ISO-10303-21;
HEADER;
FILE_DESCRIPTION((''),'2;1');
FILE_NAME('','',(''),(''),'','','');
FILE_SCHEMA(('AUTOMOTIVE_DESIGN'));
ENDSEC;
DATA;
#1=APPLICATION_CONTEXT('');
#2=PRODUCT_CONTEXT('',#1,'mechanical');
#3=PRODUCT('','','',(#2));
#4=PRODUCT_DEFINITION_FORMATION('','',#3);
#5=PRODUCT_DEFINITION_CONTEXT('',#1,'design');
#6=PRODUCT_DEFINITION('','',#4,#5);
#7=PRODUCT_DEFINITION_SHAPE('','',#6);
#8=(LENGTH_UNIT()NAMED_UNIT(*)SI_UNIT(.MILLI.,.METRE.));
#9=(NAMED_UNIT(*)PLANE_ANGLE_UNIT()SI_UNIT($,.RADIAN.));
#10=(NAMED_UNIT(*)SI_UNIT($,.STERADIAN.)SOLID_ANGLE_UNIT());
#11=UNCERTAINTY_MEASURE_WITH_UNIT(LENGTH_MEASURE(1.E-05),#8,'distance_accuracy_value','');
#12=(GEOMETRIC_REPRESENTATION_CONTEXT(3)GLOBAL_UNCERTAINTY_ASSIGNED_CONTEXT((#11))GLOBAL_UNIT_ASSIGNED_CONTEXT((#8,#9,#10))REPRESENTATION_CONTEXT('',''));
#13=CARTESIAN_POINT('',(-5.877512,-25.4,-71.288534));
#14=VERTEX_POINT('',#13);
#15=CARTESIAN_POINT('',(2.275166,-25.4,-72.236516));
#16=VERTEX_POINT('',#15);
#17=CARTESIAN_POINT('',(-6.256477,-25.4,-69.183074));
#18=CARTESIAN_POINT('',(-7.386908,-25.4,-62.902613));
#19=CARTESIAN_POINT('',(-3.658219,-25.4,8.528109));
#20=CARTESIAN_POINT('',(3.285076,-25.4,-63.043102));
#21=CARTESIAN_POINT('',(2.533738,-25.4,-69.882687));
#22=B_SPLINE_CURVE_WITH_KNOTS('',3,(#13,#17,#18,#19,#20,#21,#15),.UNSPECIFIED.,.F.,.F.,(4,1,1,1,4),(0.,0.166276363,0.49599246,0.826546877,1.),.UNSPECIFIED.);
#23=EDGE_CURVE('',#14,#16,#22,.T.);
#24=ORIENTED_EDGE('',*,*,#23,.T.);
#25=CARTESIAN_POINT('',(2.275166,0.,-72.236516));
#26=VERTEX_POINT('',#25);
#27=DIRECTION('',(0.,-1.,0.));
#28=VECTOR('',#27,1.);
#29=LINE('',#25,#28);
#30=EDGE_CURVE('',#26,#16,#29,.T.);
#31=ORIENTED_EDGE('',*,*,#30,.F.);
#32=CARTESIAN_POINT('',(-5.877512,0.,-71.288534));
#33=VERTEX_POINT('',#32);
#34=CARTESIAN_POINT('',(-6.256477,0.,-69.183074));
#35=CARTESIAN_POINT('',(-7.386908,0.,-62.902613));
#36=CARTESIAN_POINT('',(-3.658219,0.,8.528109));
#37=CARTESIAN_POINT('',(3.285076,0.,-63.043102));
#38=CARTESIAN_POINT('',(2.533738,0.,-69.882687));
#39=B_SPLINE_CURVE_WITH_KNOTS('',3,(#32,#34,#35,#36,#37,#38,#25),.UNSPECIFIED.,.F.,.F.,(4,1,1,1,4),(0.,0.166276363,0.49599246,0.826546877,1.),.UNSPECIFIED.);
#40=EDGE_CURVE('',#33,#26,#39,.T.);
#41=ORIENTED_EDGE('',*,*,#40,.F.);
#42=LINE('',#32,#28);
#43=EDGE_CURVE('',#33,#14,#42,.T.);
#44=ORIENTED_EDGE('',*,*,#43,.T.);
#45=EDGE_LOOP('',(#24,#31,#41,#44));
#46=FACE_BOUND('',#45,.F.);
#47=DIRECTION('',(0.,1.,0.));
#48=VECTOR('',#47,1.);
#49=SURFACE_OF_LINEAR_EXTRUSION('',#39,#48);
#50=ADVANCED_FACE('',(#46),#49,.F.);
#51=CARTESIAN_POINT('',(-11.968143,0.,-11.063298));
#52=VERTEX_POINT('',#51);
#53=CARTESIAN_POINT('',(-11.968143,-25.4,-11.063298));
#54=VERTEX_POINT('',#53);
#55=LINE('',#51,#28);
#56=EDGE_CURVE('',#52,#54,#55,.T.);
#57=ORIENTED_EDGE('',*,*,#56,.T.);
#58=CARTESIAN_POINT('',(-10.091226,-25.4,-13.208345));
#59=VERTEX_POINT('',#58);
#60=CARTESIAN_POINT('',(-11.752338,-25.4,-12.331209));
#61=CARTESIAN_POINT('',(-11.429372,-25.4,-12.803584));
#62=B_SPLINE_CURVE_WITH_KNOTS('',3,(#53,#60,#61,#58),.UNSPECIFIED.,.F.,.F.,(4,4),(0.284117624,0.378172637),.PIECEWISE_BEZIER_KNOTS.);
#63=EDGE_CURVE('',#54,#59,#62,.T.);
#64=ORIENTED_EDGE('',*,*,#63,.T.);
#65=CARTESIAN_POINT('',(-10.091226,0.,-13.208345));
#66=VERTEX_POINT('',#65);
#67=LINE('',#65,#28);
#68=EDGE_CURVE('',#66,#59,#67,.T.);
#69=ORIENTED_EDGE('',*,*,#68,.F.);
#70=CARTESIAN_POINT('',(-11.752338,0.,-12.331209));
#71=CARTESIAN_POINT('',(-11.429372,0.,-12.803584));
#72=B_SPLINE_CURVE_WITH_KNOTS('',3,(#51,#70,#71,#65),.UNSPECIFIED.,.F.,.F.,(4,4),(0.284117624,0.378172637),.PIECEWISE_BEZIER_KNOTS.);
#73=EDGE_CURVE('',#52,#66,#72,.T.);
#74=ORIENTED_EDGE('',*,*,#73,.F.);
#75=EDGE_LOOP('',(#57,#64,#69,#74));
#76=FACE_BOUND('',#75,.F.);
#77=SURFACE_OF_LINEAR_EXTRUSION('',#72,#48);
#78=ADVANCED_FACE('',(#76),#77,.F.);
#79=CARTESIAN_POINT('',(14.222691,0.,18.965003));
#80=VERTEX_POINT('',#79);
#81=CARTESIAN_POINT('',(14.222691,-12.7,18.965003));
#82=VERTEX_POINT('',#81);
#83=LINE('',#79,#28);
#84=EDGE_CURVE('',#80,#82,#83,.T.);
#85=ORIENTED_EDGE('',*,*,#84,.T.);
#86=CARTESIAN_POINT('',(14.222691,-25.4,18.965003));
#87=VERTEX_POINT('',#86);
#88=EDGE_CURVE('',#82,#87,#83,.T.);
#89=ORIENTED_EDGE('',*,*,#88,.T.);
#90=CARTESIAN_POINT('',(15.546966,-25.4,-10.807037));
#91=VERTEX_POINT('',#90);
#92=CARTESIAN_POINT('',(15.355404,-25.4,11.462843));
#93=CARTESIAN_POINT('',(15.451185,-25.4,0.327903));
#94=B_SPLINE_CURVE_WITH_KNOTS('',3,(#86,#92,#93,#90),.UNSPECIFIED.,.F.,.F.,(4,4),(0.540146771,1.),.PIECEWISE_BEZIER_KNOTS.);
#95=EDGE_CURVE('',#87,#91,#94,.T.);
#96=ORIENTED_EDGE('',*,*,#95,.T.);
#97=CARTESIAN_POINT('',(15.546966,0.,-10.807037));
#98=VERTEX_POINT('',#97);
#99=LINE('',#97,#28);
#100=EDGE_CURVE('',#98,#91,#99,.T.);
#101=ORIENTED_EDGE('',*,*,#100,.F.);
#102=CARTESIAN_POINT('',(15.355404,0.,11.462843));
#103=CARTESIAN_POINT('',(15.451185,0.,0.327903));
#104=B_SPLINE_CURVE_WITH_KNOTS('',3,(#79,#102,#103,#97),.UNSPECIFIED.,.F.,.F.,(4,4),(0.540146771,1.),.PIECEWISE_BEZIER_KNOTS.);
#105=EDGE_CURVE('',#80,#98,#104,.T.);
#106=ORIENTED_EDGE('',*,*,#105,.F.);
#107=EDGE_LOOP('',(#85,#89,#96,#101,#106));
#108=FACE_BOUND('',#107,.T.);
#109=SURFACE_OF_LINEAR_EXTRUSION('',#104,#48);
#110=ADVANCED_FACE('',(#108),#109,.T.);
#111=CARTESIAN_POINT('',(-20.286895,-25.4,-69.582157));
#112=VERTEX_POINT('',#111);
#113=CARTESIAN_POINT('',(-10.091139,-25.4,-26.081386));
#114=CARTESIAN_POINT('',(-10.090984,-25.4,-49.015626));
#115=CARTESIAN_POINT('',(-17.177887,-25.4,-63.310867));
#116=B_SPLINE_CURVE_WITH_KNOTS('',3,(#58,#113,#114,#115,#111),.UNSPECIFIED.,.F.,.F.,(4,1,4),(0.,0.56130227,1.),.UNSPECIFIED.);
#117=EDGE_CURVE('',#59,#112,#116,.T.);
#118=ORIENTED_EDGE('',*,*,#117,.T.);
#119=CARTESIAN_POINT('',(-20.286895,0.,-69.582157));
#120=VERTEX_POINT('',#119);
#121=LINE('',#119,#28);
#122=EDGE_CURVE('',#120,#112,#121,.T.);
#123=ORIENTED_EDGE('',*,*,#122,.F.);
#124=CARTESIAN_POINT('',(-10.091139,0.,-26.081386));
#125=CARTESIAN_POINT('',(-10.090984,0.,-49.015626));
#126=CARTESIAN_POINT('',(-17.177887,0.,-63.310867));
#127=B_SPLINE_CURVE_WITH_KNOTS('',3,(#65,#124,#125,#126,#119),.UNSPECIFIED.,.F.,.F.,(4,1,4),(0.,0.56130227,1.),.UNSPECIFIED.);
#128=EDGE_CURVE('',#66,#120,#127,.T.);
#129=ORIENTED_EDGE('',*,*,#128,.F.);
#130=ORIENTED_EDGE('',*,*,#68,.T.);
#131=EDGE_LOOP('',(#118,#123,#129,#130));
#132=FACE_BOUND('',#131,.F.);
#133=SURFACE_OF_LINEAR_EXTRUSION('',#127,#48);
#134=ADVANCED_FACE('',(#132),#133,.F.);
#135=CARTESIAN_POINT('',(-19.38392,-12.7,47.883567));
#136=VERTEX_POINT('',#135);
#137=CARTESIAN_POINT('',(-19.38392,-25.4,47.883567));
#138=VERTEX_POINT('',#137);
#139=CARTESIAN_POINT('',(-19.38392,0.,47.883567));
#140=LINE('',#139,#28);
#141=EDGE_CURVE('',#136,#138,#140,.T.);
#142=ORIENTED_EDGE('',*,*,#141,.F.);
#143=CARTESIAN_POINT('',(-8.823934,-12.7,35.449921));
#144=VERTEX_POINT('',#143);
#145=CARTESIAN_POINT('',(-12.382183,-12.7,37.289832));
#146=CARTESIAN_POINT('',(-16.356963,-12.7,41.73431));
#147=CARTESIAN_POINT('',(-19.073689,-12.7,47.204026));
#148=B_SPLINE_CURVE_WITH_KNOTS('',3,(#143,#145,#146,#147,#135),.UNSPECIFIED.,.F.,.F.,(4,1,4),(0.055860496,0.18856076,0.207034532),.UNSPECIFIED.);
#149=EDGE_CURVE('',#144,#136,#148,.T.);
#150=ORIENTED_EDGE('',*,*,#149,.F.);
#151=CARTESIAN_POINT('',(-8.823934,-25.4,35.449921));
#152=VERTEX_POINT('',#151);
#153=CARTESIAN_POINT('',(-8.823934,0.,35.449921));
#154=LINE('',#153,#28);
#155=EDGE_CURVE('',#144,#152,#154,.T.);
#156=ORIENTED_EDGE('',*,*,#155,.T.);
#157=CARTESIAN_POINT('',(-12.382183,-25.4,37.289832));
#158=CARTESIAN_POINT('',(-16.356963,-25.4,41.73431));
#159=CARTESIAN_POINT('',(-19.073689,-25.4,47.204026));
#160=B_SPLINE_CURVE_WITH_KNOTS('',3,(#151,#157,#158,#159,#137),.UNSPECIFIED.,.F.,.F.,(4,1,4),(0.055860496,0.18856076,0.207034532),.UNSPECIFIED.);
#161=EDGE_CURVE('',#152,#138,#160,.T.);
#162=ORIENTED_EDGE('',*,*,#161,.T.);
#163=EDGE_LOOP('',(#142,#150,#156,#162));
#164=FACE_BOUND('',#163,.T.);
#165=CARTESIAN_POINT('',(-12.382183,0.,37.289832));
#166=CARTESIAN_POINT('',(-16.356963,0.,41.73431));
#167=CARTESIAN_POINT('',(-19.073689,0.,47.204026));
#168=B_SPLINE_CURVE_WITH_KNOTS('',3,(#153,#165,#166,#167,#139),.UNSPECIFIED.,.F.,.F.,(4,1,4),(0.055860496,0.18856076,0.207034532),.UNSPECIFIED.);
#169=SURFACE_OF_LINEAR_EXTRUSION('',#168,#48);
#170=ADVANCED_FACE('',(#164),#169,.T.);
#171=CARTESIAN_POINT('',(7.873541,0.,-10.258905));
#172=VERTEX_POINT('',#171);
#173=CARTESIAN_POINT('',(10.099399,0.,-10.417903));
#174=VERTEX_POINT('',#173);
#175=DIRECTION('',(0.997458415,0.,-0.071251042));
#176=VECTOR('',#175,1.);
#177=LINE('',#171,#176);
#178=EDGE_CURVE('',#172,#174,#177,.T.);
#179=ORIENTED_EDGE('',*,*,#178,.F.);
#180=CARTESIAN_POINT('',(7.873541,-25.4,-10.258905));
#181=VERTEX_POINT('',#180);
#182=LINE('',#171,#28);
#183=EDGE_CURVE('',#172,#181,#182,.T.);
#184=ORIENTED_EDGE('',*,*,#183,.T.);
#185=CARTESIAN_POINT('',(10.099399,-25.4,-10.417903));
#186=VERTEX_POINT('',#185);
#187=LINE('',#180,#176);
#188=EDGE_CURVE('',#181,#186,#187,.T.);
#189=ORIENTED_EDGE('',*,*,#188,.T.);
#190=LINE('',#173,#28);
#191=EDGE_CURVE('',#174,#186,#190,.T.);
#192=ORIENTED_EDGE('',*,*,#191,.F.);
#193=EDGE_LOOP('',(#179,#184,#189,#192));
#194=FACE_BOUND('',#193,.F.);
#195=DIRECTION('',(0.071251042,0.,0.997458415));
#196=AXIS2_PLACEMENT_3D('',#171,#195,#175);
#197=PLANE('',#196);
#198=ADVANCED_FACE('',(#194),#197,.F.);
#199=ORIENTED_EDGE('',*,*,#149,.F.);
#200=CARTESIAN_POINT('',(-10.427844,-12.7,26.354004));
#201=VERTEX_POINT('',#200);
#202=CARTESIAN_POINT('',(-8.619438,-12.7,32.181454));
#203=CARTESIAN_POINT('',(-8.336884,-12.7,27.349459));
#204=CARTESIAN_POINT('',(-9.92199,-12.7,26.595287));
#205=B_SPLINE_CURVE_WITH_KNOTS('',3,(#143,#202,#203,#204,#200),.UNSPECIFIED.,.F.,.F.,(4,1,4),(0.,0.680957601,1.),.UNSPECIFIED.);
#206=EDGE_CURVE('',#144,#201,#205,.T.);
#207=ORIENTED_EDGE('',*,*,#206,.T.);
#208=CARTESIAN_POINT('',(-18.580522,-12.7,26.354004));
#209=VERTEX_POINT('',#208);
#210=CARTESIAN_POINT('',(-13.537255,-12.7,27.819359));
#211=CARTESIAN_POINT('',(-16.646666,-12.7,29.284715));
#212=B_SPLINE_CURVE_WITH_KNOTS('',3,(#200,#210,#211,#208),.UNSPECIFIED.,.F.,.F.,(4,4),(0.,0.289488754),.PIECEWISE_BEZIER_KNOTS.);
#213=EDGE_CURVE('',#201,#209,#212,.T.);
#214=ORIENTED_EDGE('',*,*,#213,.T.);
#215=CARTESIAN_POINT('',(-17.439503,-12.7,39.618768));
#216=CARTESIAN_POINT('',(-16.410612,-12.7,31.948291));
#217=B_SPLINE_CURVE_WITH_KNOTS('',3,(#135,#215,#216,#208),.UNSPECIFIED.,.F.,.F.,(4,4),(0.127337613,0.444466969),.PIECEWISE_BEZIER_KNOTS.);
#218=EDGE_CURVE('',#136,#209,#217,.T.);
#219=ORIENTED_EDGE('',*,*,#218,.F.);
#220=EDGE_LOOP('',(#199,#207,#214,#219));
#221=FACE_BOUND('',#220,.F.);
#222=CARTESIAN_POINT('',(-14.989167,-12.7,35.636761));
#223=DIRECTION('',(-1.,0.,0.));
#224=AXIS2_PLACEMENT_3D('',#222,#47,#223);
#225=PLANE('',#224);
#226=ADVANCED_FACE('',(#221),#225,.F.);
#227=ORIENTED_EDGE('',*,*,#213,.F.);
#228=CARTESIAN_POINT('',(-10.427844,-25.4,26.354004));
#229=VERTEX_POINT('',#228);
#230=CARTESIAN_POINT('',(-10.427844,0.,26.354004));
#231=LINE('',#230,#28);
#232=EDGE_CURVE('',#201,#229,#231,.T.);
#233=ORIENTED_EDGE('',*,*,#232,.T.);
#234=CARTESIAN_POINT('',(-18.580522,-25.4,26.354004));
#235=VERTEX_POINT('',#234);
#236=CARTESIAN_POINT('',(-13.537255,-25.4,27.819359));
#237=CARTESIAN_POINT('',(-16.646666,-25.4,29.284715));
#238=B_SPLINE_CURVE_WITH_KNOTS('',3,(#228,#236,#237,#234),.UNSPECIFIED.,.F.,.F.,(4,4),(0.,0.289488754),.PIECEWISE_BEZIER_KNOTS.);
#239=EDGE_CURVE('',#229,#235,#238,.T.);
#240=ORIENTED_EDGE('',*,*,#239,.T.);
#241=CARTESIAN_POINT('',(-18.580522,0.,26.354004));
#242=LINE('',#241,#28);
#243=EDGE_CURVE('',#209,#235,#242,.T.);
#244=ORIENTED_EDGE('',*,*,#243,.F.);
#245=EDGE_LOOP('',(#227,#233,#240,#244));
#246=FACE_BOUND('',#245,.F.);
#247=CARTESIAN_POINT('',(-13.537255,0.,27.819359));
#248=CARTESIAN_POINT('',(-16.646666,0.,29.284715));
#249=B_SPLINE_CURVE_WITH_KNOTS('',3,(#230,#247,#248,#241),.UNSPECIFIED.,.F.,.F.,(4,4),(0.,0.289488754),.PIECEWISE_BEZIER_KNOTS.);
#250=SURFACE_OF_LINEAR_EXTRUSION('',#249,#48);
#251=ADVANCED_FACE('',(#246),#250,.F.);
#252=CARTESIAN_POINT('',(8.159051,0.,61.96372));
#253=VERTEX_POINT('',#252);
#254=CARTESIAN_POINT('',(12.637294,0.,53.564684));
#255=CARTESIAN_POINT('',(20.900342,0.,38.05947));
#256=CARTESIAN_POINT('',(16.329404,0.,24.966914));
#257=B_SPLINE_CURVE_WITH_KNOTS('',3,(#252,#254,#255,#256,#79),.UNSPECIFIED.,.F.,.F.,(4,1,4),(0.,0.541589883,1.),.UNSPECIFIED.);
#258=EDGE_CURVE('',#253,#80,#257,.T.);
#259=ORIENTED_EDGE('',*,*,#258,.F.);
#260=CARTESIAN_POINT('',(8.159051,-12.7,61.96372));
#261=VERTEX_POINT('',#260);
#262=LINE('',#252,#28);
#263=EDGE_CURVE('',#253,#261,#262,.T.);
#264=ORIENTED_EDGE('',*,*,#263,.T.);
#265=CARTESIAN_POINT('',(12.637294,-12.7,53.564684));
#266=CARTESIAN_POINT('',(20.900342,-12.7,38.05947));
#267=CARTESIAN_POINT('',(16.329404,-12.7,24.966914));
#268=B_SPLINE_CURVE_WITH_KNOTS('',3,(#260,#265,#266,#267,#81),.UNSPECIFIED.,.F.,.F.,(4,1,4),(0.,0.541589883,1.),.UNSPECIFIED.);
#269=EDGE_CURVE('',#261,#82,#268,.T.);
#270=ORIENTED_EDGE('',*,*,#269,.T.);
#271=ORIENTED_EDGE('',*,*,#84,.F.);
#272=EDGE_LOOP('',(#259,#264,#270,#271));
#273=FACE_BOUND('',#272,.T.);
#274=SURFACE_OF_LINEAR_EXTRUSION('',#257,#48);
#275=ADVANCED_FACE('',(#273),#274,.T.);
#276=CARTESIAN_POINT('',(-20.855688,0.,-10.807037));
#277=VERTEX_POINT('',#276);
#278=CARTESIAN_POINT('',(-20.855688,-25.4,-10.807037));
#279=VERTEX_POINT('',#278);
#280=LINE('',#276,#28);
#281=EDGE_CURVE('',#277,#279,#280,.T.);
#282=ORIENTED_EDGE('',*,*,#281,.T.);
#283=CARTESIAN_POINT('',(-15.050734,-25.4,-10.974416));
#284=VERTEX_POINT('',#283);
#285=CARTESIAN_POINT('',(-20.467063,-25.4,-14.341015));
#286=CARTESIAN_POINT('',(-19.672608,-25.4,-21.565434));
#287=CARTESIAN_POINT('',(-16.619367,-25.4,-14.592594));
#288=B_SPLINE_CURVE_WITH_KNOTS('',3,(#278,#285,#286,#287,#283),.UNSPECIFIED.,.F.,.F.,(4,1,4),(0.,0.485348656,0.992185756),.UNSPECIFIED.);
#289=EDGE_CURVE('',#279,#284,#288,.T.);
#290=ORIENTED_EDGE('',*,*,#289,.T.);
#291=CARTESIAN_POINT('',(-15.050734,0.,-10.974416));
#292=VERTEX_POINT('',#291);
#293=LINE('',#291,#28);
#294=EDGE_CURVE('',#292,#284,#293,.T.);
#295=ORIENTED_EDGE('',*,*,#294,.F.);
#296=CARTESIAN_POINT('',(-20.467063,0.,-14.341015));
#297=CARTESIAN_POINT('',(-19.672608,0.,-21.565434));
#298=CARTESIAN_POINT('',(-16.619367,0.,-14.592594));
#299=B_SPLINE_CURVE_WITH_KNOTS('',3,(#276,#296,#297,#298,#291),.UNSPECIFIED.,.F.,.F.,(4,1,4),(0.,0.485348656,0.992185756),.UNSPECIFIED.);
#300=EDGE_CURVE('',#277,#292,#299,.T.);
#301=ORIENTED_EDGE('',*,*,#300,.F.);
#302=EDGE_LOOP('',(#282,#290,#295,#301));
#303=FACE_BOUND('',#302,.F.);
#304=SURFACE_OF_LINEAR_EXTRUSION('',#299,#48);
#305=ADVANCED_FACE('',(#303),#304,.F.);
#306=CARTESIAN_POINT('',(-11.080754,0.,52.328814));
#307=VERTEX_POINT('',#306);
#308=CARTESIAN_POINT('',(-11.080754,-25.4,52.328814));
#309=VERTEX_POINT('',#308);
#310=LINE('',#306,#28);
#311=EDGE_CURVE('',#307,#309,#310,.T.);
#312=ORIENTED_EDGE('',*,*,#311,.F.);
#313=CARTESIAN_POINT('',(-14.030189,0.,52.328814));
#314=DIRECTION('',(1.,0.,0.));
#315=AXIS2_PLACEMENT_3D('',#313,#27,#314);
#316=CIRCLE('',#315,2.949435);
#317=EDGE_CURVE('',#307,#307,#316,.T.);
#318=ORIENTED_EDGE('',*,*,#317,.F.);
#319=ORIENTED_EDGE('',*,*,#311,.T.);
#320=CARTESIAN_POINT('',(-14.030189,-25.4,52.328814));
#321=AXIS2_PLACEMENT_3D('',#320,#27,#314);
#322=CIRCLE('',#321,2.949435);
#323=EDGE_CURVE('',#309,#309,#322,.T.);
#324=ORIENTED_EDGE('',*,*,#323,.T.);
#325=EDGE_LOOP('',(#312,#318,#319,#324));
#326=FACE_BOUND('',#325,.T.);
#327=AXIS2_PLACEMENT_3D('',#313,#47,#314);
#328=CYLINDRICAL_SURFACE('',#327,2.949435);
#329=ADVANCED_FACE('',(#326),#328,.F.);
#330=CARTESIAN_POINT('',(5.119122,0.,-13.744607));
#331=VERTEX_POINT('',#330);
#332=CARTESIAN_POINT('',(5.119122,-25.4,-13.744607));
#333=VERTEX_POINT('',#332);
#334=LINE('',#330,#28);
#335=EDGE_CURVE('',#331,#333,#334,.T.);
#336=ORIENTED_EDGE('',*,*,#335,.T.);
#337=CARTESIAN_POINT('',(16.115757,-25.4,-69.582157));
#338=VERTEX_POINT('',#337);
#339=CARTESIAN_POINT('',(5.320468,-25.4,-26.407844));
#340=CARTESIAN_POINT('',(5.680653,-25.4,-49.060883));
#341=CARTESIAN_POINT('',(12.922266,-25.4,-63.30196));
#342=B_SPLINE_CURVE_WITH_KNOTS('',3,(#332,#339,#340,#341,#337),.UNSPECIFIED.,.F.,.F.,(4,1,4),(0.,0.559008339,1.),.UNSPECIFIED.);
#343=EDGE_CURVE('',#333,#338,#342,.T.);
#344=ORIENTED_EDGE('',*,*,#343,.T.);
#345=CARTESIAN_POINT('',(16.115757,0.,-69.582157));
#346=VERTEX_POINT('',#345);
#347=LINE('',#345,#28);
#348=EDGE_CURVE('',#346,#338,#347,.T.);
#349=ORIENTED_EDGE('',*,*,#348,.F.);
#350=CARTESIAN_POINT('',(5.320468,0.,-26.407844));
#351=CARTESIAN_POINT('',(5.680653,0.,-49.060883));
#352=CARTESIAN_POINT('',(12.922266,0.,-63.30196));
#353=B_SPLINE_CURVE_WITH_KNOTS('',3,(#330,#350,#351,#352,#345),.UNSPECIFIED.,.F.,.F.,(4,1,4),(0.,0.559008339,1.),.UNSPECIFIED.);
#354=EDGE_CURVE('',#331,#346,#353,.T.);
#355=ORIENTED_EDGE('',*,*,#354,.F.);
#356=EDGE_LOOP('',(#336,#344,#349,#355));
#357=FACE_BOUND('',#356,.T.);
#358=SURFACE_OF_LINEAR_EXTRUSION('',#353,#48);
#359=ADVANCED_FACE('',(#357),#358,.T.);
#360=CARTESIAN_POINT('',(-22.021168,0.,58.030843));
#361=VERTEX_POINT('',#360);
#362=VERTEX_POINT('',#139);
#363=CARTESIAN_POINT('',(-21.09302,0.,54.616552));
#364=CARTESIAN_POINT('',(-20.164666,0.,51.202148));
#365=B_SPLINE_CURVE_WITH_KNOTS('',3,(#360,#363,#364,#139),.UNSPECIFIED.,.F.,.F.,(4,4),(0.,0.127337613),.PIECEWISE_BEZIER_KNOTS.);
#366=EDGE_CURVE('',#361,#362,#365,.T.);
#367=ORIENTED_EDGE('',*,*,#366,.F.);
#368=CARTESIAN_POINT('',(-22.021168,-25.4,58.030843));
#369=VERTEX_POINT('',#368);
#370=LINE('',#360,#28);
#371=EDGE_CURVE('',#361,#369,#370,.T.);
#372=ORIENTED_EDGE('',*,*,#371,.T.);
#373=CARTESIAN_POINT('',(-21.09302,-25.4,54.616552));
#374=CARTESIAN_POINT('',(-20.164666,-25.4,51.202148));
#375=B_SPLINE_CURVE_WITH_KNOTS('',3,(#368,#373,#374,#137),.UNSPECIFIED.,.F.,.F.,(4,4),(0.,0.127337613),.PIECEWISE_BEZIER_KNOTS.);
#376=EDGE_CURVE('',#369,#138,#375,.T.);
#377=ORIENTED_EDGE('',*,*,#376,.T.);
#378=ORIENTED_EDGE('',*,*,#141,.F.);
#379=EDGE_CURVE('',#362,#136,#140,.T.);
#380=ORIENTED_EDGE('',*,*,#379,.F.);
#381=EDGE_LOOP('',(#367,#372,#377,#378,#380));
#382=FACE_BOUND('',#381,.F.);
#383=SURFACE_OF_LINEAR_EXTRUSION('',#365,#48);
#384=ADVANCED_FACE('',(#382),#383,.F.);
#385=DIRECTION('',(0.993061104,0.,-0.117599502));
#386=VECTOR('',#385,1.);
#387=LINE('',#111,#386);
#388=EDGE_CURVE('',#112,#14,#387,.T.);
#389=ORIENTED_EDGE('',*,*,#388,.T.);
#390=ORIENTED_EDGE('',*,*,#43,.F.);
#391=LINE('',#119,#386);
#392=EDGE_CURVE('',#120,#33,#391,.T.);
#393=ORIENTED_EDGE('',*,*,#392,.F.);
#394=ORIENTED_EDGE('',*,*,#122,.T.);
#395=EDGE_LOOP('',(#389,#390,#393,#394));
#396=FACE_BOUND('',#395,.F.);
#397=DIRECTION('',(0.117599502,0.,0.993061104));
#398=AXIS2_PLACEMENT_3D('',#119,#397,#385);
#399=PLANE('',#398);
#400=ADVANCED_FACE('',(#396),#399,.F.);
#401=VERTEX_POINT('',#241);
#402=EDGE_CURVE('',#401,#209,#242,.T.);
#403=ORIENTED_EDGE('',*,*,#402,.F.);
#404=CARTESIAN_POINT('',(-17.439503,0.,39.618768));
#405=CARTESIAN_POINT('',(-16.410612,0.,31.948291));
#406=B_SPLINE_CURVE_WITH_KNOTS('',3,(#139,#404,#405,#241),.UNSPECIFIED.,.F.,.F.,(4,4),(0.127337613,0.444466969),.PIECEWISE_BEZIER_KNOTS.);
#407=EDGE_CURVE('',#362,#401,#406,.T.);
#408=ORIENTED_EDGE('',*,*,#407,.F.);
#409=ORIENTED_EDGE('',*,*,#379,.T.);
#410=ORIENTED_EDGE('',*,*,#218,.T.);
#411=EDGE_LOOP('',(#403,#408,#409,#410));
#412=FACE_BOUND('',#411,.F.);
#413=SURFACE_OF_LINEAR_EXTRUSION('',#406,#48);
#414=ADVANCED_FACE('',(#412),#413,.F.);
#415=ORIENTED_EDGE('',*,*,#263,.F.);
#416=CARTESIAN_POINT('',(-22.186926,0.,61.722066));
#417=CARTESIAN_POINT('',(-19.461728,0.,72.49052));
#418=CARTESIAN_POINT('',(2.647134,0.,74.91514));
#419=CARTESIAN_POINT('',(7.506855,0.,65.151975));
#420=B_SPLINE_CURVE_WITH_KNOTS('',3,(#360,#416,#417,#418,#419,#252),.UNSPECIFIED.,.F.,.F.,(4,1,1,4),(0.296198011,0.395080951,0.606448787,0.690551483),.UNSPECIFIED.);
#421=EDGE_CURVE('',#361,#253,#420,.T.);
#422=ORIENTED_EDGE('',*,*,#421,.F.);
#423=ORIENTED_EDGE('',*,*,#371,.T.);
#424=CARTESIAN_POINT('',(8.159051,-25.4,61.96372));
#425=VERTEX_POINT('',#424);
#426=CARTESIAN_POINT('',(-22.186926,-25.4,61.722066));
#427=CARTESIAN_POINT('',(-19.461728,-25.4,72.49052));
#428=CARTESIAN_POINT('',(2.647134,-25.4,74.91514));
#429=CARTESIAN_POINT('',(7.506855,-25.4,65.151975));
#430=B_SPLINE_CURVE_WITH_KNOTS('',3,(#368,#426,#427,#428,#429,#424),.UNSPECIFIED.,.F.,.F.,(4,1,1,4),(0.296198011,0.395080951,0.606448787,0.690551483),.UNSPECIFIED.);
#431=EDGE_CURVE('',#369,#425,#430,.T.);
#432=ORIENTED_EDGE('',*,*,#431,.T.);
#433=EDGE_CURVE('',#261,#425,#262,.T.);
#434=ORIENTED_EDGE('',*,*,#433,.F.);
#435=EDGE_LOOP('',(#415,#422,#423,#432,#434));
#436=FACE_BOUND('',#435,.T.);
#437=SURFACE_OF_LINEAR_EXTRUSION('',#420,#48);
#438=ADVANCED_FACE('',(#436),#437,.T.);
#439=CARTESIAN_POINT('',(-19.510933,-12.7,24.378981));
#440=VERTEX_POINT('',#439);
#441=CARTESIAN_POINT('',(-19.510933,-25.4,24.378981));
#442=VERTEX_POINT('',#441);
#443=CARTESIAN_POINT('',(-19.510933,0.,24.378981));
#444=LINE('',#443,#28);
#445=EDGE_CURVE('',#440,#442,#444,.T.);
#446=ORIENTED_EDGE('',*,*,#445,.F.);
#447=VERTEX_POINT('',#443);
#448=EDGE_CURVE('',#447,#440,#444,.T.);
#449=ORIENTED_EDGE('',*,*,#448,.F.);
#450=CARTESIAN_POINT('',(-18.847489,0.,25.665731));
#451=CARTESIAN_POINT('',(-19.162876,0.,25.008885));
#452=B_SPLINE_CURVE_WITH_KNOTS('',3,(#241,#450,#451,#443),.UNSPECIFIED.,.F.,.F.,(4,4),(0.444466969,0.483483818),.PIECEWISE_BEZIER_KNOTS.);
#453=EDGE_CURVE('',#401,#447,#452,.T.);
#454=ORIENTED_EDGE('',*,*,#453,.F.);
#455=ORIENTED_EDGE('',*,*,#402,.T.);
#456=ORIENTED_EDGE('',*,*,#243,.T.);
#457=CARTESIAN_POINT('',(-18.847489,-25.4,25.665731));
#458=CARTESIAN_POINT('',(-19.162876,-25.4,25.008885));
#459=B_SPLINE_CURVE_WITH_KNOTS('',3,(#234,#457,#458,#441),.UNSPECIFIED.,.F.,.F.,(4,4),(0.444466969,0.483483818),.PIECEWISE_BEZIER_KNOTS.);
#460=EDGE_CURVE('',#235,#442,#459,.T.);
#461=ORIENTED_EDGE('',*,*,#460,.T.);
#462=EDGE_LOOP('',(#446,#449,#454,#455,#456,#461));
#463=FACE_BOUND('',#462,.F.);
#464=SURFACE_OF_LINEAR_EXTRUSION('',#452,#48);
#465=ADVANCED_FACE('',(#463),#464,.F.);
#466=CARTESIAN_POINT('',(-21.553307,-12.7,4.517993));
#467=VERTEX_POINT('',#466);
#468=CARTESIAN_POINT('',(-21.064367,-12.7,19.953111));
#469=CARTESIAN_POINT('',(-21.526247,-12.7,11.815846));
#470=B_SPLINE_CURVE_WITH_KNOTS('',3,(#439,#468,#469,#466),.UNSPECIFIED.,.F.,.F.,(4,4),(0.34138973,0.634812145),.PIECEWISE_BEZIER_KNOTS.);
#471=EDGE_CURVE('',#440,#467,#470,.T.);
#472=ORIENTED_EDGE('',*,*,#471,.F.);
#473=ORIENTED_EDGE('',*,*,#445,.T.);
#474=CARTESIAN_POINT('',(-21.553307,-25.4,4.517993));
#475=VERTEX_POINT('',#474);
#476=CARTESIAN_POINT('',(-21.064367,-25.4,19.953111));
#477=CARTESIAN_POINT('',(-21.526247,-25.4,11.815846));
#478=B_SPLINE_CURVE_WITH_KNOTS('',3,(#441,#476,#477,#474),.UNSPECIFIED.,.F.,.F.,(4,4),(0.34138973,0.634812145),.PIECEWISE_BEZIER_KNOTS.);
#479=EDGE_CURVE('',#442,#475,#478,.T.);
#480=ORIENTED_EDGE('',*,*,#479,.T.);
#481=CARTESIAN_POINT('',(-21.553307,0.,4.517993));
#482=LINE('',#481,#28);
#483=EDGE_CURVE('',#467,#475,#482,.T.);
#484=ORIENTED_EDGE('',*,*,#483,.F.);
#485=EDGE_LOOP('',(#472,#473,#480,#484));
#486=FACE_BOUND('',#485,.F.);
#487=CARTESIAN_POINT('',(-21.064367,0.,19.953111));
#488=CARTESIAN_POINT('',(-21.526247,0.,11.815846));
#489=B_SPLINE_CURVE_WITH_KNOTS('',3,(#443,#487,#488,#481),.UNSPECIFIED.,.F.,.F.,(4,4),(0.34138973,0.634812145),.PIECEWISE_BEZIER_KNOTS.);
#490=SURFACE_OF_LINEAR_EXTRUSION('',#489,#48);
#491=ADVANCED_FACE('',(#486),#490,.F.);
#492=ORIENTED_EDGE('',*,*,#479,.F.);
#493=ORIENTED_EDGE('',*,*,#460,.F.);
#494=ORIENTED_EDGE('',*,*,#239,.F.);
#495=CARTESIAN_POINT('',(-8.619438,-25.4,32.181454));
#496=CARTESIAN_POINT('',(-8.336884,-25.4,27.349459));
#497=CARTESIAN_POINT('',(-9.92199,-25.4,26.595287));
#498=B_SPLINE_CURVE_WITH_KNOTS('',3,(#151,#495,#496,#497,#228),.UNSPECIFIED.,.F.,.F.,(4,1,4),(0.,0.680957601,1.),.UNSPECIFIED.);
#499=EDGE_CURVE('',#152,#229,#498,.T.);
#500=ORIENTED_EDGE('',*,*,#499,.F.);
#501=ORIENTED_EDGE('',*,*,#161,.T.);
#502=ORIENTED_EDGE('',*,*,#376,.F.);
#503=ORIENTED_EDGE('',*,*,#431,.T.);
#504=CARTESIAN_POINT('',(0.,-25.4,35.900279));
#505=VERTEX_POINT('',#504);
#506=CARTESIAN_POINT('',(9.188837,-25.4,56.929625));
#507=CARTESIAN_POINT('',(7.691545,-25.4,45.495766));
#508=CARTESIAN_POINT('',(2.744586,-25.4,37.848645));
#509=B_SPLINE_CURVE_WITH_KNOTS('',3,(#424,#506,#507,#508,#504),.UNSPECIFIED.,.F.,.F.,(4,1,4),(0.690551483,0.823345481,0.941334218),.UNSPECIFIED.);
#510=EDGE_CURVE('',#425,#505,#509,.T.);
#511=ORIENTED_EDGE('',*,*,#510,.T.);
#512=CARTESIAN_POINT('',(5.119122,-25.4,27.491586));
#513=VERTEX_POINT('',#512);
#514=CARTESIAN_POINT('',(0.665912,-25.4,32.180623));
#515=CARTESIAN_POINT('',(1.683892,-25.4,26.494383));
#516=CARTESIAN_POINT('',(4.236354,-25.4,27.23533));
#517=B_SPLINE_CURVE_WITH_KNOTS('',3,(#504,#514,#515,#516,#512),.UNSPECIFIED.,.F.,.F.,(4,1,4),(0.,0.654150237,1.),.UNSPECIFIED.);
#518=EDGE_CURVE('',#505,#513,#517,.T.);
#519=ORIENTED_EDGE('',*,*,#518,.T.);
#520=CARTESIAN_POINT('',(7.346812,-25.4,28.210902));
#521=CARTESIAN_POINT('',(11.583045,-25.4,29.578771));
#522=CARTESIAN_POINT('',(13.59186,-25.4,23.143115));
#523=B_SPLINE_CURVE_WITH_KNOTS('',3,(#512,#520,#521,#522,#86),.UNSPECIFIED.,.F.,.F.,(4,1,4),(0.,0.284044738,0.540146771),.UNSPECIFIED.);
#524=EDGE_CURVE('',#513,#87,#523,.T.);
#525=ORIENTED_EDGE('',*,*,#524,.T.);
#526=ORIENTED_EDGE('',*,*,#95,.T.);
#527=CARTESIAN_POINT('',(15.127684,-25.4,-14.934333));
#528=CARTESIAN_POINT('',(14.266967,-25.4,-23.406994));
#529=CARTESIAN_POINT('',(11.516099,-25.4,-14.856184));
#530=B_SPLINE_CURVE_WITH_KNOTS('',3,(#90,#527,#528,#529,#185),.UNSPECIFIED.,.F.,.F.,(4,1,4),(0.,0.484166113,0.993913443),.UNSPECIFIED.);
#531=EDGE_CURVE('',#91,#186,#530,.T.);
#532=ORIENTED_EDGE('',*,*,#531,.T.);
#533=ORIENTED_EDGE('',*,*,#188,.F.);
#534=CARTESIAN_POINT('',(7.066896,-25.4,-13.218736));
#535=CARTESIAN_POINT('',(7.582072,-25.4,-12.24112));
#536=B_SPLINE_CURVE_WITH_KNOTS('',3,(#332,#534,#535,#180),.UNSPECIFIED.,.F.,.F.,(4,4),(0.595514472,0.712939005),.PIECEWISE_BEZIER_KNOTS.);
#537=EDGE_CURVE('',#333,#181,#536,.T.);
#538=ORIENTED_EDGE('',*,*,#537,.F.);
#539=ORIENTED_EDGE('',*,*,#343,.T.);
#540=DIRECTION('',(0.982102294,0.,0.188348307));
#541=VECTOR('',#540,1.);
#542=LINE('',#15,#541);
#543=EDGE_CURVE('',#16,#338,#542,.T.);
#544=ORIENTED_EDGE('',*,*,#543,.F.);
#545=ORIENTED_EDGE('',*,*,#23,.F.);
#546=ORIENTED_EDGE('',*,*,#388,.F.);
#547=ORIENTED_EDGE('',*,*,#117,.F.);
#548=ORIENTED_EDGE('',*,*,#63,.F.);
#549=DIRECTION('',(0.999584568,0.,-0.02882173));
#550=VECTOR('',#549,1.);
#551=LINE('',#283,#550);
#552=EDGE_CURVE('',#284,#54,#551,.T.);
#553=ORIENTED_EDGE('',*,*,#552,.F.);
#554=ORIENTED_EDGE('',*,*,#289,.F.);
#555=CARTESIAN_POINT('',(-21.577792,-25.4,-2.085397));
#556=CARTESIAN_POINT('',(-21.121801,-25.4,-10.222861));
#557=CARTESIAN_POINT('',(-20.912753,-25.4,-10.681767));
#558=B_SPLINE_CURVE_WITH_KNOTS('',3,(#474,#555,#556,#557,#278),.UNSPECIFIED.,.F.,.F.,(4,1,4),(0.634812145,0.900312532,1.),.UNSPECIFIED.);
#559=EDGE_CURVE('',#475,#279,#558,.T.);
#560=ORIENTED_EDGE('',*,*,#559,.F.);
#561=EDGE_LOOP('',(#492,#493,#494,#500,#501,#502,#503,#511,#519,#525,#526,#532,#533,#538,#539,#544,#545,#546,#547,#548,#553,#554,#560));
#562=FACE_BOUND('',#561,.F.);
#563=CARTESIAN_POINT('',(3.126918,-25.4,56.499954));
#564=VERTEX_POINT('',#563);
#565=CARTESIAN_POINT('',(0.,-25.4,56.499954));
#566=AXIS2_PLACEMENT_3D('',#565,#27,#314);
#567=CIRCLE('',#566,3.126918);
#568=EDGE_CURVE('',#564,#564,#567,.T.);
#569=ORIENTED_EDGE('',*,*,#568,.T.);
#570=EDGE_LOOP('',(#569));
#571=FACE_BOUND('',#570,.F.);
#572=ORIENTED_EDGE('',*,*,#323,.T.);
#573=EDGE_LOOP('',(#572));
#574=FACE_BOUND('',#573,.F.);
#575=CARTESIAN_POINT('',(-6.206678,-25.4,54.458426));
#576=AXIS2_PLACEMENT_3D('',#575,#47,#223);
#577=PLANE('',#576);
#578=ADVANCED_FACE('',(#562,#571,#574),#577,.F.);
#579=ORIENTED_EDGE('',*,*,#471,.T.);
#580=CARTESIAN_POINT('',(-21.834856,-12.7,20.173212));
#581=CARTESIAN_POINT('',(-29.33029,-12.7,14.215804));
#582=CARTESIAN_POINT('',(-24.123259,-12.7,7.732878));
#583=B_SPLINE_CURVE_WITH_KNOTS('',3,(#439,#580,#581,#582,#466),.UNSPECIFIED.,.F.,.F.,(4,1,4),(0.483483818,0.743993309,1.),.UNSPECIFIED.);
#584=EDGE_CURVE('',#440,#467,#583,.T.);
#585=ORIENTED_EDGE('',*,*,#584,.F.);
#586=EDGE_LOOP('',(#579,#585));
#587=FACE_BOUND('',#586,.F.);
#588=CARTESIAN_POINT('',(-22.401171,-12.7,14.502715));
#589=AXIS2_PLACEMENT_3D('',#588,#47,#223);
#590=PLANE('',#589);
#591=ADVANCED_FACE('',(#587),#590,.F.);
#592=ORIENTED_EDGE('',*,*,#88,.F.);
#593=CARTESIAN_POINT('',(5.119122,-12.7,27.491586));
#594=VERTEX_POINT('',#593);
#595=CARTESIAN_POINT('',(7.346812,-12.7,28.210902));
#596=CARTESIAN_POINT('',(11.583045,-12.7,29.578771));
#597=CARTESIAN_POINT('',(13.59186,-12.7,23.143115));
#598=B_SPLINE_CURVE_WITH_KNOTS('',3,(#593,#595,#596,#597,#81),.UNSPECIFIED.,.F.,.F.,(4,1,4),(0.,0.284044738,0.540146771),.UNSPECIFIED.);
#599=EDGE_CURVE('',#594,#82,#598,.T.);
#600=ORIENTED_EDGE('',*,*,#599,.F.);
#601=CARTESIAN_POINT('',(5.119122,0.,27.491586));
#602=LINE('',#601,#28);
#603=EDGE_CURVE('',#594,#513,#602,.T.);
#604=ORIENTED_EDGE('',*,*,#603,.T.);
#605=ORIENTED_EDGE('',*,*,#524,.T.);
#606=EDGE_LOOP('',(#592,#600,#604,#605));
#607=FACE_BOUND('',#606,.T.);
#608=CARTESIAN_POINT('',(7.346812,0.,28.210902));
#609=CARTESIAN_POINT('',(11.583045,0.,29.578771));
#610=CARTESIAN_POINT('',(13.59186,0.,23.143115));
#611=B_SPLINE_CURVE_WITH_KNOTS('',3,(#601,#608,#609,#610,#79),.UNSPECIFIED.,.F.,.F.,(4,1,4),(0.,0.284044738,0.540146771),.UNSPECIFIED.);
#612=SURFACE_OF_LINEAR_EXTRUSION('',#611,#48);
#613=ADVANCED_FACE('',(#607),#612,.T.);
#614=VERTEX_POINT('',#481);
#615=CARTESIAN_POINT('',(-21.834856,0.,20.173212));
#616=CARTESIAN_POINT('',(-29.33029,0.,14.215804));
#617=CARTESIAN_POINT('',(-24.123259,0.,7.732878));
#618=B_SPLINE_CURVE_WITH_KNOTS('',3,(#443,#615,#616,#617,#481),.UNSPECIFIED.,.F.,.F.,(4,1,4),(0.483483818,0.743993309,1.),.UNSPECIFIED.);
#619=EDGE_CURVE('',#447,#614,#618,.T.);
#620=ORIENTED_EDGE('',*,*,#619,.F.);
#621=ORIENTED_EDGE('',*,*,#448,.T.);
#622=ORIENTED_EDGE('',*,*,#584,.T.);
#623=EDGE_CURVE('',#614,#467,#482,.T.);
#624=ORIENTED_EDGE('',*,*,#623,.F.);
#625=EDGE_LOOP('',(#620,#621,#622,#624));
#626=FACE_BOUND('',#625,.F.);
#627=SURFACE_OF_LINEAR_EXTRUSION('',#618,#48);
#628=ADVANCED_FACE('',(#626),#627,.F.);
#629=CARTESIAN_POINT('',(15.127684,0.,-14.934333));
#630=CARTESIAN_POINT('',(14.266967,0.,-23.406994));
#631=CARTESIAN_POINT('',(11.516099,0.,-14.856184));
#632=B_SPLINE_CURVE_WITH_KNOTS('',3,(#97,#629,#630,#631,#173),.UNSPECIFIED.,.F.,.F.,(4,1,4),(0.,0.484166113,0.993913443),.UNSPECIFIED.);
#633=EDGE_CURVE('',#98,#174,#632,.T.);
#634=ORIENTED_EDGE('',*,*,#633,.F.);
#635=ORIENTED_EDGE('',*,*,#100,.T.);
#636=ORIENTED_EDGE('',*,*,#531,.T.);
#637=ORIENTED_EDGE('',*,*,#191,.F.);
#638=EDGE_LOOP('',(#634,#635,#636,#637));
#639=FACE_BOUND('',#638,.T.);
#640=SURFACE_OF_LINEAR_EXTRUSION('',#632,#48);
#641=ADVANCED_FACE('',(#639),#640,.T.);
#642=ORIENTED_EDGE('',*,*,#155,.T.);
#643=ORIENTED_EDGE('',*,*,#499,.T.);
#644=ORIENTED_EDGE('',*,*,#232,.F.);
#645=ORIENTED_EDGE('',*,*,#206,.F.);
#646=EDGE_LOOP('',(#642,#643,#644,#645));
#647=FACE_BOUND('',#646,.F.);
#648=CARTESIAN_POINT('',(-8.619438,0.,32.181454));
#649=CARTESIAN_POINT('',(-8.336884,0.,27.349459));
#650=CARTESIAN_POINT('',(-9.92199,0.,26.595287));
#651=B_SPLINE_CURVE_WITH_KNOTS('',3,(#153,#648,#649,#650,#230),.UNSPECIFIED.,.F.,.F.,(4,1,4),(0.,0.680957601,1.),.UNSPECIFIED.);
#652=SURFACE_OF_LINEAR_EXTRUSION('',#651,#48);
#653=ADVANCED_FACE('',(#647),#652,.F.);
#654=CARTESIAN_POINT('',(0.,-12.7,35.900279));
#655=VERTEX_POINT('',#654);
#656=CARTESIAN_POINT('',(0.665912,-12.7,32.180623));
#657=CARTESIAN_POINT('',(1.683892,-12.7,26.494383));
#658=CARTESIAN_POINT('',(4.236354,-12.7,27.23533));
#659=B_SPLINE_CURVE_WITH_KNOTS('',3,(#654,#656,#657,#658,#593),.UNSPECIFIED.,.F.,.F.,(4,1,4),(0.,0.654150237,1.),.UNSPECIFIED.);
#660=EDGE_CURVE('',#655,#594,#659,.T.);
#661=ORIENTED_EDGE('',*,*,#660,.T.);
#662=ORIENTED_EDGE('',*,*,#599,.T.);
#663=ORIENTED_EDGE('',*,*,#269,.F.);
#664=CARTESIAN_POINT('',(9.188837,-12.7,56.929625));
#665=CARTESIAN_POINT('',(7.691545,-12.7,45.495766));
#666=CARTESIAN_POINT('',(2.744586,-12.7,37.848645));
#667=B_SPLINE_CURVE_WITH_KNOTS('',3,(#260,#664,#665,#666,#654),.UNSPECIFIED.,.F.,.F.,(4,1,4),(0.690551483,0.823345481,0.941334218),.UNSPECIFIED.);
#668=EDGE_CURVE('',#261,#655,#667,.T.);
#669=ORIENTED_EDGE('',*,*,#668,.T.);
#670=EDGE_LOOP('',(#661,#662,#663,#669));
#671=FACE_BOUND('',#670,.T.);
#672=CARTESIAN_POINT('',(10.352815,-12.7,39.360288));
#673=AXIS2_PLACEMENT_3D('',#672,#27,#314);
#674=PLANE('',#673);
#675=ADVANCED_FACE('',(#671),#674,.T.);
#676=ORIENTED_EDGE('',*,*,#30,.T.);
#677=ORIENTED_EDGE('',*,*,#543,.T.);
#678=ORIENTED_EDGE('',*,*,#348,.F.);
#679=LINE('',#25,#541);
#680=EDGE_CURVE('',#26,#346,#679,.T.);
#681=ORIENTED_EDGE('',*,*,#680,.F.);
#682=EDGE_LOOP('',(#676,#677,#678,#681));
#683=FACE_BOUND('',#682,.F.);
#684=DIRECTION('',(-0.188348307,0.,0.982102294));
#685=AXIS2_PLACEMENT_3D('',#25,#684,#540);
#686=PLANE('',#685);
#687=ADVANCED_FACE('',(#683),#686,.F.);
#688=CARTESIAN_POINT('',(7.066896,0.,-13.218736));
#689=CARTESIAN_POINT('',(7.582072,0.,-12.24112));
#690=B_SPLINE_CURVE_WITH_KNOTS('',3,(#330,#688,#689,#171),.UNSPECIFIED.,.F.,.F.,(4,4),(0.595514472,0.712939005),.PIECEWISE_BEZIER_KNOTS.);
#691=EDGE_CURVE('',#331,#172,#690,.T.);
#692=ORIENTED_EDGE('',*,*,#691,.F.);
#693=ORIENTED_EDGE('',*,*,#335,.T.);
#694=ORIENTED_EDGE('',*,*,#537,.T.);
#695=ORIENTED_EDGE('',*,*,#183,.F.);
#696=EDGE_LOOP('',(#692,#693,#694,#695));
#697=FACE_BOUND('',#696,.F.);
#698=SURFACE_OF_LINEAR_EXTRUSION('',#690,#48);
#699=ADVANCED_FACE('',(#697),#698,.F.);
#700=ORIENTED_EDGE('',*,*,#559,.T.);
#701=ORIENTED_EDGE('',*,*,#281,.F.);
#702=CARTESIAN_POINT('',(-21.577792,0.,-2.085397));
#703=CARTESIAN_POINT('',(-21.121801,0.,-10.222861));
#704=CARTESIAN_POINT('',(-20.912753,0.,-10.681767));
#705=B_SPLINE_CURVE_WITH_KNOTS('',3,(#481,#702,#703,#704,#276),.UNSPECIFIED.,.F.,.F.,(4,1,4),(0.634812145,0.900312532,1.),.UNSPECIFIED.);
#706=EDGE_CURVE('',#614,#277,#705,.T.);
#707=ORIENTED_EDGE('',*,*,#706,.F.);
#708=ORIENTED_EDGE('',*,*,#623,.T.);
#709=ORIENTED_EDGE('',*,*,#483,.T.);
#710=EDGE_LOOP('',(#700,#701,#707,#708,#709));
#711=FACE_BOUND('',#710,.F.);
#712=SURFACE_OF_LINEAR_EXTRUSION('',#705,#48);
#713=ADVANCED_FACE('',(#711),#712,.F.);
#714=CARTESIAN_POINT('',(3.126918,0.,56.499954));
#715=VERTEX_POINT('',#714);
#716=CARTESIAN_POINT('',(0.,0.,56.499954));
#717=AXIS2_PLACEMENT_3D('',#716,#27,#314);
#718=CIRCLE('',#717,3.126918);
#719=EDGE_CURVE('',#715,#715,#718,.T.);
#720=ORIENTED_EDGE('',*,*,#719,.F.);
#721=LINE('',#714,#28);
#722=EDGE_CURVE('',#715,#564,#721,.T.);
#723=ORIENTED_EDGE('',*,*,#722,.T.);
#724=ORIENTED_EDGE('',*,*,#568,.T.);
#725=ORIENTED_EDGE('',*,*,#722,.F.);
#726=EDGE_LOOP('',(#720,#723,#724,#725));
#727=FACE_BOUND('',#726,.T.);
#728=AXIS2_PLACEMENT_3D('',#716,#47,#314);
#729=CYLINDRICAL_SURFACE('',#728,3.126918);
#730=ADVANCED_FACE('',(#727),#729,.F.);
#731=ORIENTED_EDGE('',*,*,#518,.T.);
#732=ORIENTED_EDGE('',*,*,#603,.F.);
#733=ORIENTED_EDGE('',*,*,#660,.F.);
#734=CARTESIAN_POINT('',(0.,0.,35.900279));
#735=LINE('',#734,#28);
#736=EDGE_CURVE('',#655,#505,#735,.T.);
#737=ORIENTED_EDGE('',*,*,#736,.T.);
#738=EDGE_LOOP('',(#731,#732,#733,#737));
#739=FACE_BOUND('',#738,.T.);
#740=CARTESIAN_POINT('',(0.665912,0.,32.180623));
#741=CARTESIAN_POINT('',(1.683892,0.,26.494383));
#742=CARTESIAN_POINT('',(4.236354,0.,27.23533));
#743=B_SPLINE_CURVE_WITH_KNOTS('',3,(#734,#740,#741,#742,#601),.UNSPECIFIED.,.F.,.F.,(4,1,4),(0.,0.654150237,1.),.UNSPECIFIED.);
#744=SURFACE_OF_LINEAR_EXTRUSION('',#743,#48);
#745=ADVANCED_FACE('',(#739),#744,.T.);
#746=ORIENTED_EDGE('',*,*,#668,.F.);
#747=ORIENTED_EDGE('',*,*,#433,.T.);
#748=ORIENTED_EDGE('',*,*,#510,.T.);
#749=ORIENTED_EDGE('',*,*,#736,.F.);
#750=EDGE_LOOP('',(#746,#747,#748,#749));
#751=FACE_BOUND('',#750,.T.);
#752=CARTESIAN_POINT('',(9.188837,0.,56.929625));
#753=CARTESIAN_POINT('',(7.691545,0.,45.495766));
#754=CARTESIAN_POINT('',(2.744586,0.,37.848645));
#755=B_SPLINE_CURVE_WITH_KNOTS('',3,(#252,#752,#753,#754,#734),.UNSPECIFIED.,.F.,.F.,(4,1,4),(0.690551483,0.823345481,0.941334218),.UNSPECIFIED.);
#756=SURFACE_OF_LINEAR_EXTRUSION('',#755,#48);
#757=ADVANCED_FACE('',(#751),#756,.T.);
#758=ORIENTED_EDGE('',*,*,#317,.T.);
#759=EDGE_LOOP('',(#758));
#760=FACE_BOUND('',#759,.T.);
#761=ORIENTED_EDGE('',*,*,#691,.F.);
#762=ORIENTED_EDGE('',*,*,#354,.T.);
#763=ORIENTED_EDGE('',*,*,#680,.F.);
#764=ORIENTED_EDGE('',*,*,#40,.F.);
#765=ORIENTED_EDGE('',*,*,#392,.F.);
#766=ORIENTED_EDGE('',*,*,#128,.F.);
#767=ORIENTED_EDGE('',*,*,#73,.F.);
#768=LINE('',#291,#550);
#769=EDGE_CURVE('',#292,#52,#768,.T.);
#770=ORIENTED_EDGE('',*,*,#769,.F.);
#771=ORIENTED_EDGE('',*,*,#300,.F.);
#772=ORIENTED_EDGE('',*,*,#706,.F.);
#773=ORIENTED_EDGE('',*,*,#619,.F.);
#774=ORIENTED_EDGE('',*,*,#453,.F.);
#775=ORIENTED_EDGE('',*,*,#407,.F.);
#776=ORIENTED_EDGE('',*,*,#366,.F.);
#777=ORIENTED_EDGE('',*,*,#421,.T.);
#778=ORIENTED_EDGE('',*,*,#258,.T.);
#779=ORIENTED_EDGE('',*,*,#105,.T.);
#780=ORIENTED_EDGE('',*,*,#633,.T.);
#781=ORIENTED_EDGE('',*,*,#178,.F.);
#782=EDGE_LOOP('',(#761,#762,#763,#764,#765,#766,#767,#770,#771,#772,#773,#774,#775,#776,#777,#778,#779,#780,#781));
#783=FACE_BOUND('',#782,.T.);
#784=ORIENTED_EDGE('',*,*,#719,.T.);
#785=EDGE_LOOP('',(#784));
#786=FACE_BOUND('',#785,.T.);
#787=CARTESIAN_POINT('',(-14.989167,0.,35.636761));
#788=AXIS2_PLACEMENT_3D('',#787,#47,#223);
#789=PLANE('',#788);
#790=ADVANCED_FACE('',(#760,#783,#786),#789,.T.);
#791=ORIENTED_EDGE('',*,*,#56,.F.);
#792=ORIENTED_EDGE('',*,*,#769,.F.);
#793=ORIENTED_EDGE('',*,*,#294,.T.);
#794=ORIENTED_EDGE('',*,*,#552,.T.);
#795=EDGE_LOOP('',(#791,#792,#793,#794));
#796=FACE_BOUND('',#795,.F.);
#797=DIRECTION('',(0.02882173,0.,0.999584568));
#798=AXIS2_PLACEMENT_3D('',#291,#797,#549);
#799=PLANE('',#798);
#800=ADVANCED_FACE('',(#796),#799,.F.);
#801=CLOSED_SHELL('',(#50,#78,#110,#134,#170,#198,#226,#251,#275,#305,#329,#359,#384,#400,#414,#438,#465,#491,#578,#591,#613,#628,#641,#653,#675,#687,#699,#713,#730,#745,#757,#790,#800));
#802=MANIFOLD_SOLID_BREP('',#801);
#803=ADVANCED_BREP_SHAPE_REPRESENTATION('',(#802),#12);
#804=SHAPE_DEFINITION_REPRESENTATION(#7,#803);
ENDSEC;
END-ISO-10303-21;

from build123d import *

# Parameters (mm, degrees)
F0_R     = 2.9494351417
F0_R_2   = 3.1269179554
F1_DEPTH = 25.4
F2_DEPTH = 12.7


with BuildPart() as f1:
    # F0 (on Front) → F1 (new body)
    with BuildSketch(Plane.XZ):
        with BuildLine():
            add(Edge.make_bspline(
                [(-4.3607349508, 34.3170873821), (-5.8159647731, 34.266180532), (-7.3260798919, 34.6754060156), (-8.8239335735, 35.4499210748)],
                knots=[0, 0, 0, 0, 0.0558604963, 0.0558604963, 0.0558604963, 0.0558604963], degree=3))
            add(Edge.make_bspline(
                [(0, 35.9002791652), (-1.3646498289, 34.9315221296), (-2.8324242194, 34.3705507485), (-4.3607349508, 34.3170873821)],
                knots=[0.9413342177, 0.9413342177, 0.9413342177, 0.9413342177, 1, 1, 1, 1], degree=3))
            add(Edge.make_bspline(
                [(8.1590511892, 61.9637204051), (9.1888372029, 56.929624723), (7.6915449767, 45.4957659335), (2.7445864281, 37.8486452262), (0, 35.9002791652)],
                knots=[0.6905514826, 0.6905514826, 0.6905514826, 0.6905514826, 0.8233454805, 0.9413342177, 0.9413342177, 0.9413342177, 0.9413342177], degree=3))
            add(Edge.make_bspline(
                [(-22.0211678961, 58.0308431791), (-22.1869263998, 61.722066111), (-19.4617275875, 72.4905198421), (2.6471335613, 74.9151403272), (7.5068546983, 65.1519745619), (8.1590511892, 61.9637204051)],
                knots=[0.2961980111, 0.2961980111, 0.2961980111, 0.2961980111, 0.395080951, 0.6064487872, 0.6905514826, 0.6905514826, 0.6905514826, 0.6905514826], degree=3))
            add(Edge.make_bspline(
                [(-22.0211678961, 58.0308431791), (-21.0930203688, 54.6165518536), (-20.1646660473, 51.2021484936), (-19.3839201593, 47.8835665328)],
                knots=[0, 0, 0, 0, 0.1273376133, 0.1273376133, 0.1273376133, 0.1273376133], degree=3))
            add(Edge.make_bspline(
                [(-8.8239335735, 35.4499210748), (-12.3821829949, 37.2898322723), (-16.3569635, 41.7343103663), (-19.07368946, 47.2040259263), (-19.3839201593, 47.8835665328)],
                knots=[0.0558604963, 0.0558604963, 0.0558604963, 0.0558604963, 0.1885607602, 0.207034532, 0.207034532, 0.207034532, 0.207034532], degree=3))
        make_face()
        with Locations((-14.0301892534, 52.3288138211)):
            Circle(F0_R, mode=Mode.SUBTRACT)
        with Locations((0, 56.499954313)):
            Circle(F0_R_2, mode=Mode.SUBTRACT)
        with BuildLine():
            add(Edge.make_bspline(
                [(0, 35.9002791652), (-1.3646498289, 34.9315221296), (-2.8324242194, 34.3705507485), (-4.3607349508, 34.3170873821)],
                knots=[0.9413342177, 0.9413342177, 0.9413342177, 0.9413342177, 1, 1, 1, 1], degree=3))
            add(Edge.make_bspline(
                [(-4.3607349508, 34.3170873821), (-5.8159647731, 34.266180532), (-7.3260798919, 34.6754060156), (-8.8239335735, 35.4499210748)],
                knots=[0, 0, 0, 0, 0.0558604963, 0.0558604963, 0.0558604963, 0.0558604963], degree=3))
            add(Edge.make_bspline(
                [(-8.8239335735, 35.4499210748), (-8.6194381151, 32.1814535678), (-8.3368843444, 27.3494594149), (-9.9219897476, 26.5952865599), (-10.4278437793, 26.3540036976)],
                knots=[0, 0, 0, 0, 0.6809576007, 1, 1, 1, 1], degree=3))
            add(Edge.make_bspline(
                [(-10.4278437793, 26.3540036976), (-13.5372550637, 27.8193594175), (-16.64666634, 29.2847151335), (-18.5805223781, 26.354003713)],
                knots=[0, 0, 0, 0, 0.2894887536, 0.2894887536, 0.2894887536, 0.2894887536], degree=3))
            add(Edge.make_bspline(
                [(-18.5805223882, 26.3540036976), (-18.8474893981, 25.6657310236), (-19.1628757455, 25.0088850241), (-19.5109327232, 24.378981395)],
                knots=[0.4444669687, 0.4444669687, 0.4444669687, 0.4444669687, 0.4834838181, 0.4834838181, 0.4834838181, 0.4834838181], degree=3))
            add(Edge.make_bspline(
                [(-19.5109327232, 24.378981395), (-21.0643674832, 19.9531113363), (-21.5262468174, 11.8158457348), (-21.5533071763, 4.5179931389)],
                knots=[0.3413897295, 0.3413897295, 0.3413897295, 0.3413897295, 0.6348121446, 0.6348121446, 0.6348121446, 0.6348121446], degree=3))
            add(Edge.make_bspline(
                [(-21.5533071763, 4.5179931389), (-21.577792476, -2.0853970393), (-21.1218013847, -10.2228609905), (-20.9127527805, -10.6817670726), (-20.8556875587, -10.8070373535)],
                knots=[0.6348121446, 0.6348121446, 0.6348121446, 0.6348121446, 0.9003125323, 1, 1, 1, 1], degree=3))
            Line((-20.8556875587, -10.8070373535), (-15.0507342077, -10.9744156837))
            Line((-15.0507342077, -10.9744156837), (-11.9681432843, -11.0632982105))
            add(Edge.make_bspline(
                [(-11.9681432843, -11.0632982105), (-11.7523383257, -12.3312092814), (-11.4293724426, -12.803583638), (-10.0912256166, -13.2083445787)],
                knots=[0.2841176244, 0.2841176244, 0.2841176244, 0.2841176244, 0.3781726374, 0.3781726374, 0.3781726374, 0.3781726374], degree=3))
            add(Edge.make_bspline(
                [(-10.0912256166, -13.2083445787), (-6.999042893, -14.1436640549), (1.5139752093, -14.7179432662), (5.1191220991, -13.7446066365)],
                knots=[0.3781726374, 0.3781726374, 0.3781726374, 0.3781726374, 0.5955144721, 0.5955144721, 0.5955144721, 0.5955144721], degree=3))
            add(Edge.make_bspline(
                [(5.1191220991, -13.7446066365), (7.0668957023, -13.2187364147), (7.5820718333, -12.2411203248), (7.8735407442, -10.2589046583)],
                knots=[0.5955144721, 0.5955144721, 0.5955144721, 0.5955144721, 0.7129390047, 0.7129390047, 0.7129390047, 0.7129390047], degree=3))
            Line((7.8735407442, -10.2589046583), (10.0993986167, -10.4179034599))
            Line((10.0993986167, -10.4179034599), (15.5469663441, -10.8070373535))
            add(Edge.make_bspline(
                [(14.2226914281, 18.9650026151), (15.3554039912, 11.4628427606), (15.4511851676, 0.3279027036), (15.5469663441, -10.8070373535)],
                knots=[0.5401467708, 0.5401467708, 0.5401467708, 0.5401467708, 1, 1, 1, 1], degree=3))
            add(Edge.make_bspline(
                [(5.1191220991, 27.4915862828), (7.3468122477, 28.2109019634), (11.5830450619, 29.5787711404), (13.5918597378, 23.1431148181), (14.2226914281, 18.9650026151)],
                knots=[0, 0, 0, 0, 0.2840447381, 0.5401467708, 0.5401467708, 0.5401467708, 0.5401467708], degree=3))
            add(Edge.make_bspline(
                [(0, 35.9002791652), (0.6659120514, 32.1806234635), (1.6838923464, 26.494382766), (4.2363538824, 27.2353298943), (5.1191220991, 27.4915862828)],
                knots=[0, 0, 0, 0, 0.6541502372, 1, 1, 1, 1], degree=3))
        make_face()
        with BuildLine():
            add(Edge.make_bspline(
                [(5.1191220991, -13.7446066365), (5.3204684593, -26.4078442093), (5.6806533545, -49.0608829649), (12.9222659431, -63.3019604329), (16.1157567054, -69.582156837)],
                knots=[0, 0, 0, 0, 0.5590083392, 1, 1, 1, 1], degree=3))
            add(Edge.make_bspline(
                [(-10.0912256166, -13.2083445787), (-6.999042893, -14.1436640549), (1.5139752093, -14.7179432662), (5.1191220991, -13.7446066365)],
                knots=[0.3781726374, 0.3781726374, 0.3781726374, 0.3781726374, 0.5955144721, 0.5955144721, 0.5955144721, 0.5955144721], degree=3))
            add(Edge.make_bspline(
                [(-10.0912256166, -13.2083445787), (-10.0911388765, -26.0813857287), (-10.0909843429, -49.0156260347), (-17.1778871585, -63.310867055), (-20.2868953347, -69.582156837)],
                knots=[0, 0, 0, 0, 0.5613022702, 1, 1, 1, 1], degree=3))
            Line((-20.2868953347, -69.582156837), (-5.8775120415, -71.2885335088))
            add(Edge.make_bspline(
                [(-5.8775120415, -71.2885335088), (-6.2564772228, -69.1830736559), (-7.386907722, -62.90261268), (-3.6582190501, 8.5281088891), (3.2850759179, -63.0431020915), (2.5337375888, -69.8826869928), (2.2751661018, -72.2365155816)],
                knots=[0, 0, 0, 0, 0.1662763633, 0.4959924596, 0.8265468775, 1, 1, 1, 1], degree=3))
            Line((2.2751661018, -72.2365155816), (16.1157567054, -69.582156837))
        make_face()
        with BuildLine():
            add(Edge.make_bspline(
                [(15.5469663441, -10.8070373535), (15.1276841103, -14.9343334931), (14.2669666052, -23.4069940283), (11.5160993619, -14.8561836208), (10.0993986167, -10.4179034599)],
                knots=[0, 0, 0, 0, 0.4841661128, 0.993913443, 0.993913443, 0.993913443, 0.993913443], degree=3))
            Line((15.5469663441, -10.8070373535), (10.0993986167, -10.4179034599))
        make_face()
        with BuildLine():
            Line((-15.0507342077, -10.9744156837), (-20.8556875587, -10.8070373535))
            add(Edge.make_bspline(
                [(-20.8556875587, -10.8070373535), (-20.4670630449, -14.3410148632), (-19.6726079619, -21.5654340555), (-16.6193671781, -14.5925942328), (-15.0507342077, -10.9744156837)],
                knots=[0, 0, 0, 0, 0.4853486561, 0.9921857557, 0.9921857557, 0.9921857557, 0.9921857557], degree=3))
        make_face()
    extrude(amount=F1_DEPTH)

    # F0 (on Front) → F2 (join)
    with BuildSketch(Plane.XZ):
        with BuildLine():
            add(Edge.make_bspline(
                [(-8.8239335735, 35.4499210748), (-8.6194381151, 32.1814535678), (-8.3368843444, 27.3494594149), (-9.9219897476, 26.5952865599), (-10.4278437793, 26.3540036976)],
                knots=[0, 0, 0, 0, 0.6809576007, 1, 1, 1, 1], degree=3))
            add(Edge.make_bspline(
                [(-8.8239335735, 35.4499210748), (-12.3821829949, 37.2898322723), (-16.3569635, 41.7343103663), (-19.07368946, 47.2040259263), (-19.3839201593, 47.8835665328)],
                knots=[0.0558604963, 0.0558604963, 0.0558604963, 0.0558604963, 0.1885607602, 0.207034532, 0.207034532, 0.207034532, 0.207034532], degree=3))
            add(Edge.make_bspline(
                [(-19.3839201593, 47.8835665328), (-17.4395030004, 39.6187676959), (-16.410611773, 31.9482911058), (-18.5805223882, 26.3540036976)],
                knots=[0.1273376133, 0.1273376133, 0.1273376133, 0.1273376133, 0.4444669687, 0.4444669687, 0.4444669687, 0.4444669687], degree=3))
            add(Edge.make_bspline(
                [(-10.4278437793, 26.3540036976), (-13.5372550637, 27.8193594175), (-16.64666634, 29.2847151335), (-18.5805223781, 26.354003713)],
                knots=[0, 0, 0, 0, 0.2894887536, 0.2894887536, 0.2894887536, 0.2894887536], degree=3))
        make_face()
        with BuildLine():
            add(Edge.make_bspline(
                [(-19.5109327232, 24.378981395), (-21.0643674832, 19.9531113363), (-21.5262468174, 11.8158457348), (-21.5533071763, 4.5179931389)],
                knots=[0.3413897295, 0.3413897295, 0.3413897295, 0.3413897295, 0.6348121446, 0.6348121446, 0.6348121446, 0.6348121446], degree=3))
            add(Edge.make_bspline(
                [(-19.5109327232, 24.378981395), (-21.8348555242, 20.1732119385), (-29.3302897757, 14.2158038787), (-24.1232589853, 7.7328778416), (-21.5533071763, 4.5179931389)],
                knots=[0.4834838181, 0.4834838181, 0.4834838181, 0.4834838181, 0.7439933089, 1, 1, 1, 1], degree=3))
        make_face()
        with BuildLine():
            add(Edge.make_bspline(
                [(8.1590511892, 61.9637204051), (9.1888372029, 56.929624723), (7.6915449767, 45.4957659335), (2.7445864281, 37.8486452262), (0, 35.9002791652)],
                knots=[0.6905514826, 0.6905514826, 0.6905514826, 0.6905514826, 0.8233454805, 0.9413342177, 0.9413342177, 0.9413342177, 0.9413342177], degree=3))
            add(Edge.make_bspline(
                [(0, 35.9002791652), (0.6659120514, 32.1806234635), (1.6838923464, 26.494382766), (4.2363538824, 27.2353298943), (5.1191220991, 27.4915862828)],
                knots=[0, 0, 0, 0, 0.6541502372, 1, 1, 1, 1], degree=3))
            add(Edge.make_bspline(
                [(5.1191220991, 27.4915862828), (7.3468122477, 28.2109019634), (11.5830450619, 29.5787711404), (13.5918597378, 23.1431148181), (14.2226914281, 18.9650026151)],
                knots=[0, 0, 0, 0, 0.2840447381, 0.5401467708, 0.5401467708, 0.5401467708, 0.5401467708], degree=3))
            add(Edge.make_bspline(
                [(8.1590511892, 61.9637204051), (12.6372937315, 53.5646840832), (20.9003420601, 38.0594699763), (16.3294038546, 24.9669144954), (14.2226914281, 18.9650026151)],
                knots=[0, 0, 0, 0, 0.5415898832, 1, 1, 1, 1], degree=3))
        make_face()
    extrude(amount=F2_DEPTH)


solid = f1.part
